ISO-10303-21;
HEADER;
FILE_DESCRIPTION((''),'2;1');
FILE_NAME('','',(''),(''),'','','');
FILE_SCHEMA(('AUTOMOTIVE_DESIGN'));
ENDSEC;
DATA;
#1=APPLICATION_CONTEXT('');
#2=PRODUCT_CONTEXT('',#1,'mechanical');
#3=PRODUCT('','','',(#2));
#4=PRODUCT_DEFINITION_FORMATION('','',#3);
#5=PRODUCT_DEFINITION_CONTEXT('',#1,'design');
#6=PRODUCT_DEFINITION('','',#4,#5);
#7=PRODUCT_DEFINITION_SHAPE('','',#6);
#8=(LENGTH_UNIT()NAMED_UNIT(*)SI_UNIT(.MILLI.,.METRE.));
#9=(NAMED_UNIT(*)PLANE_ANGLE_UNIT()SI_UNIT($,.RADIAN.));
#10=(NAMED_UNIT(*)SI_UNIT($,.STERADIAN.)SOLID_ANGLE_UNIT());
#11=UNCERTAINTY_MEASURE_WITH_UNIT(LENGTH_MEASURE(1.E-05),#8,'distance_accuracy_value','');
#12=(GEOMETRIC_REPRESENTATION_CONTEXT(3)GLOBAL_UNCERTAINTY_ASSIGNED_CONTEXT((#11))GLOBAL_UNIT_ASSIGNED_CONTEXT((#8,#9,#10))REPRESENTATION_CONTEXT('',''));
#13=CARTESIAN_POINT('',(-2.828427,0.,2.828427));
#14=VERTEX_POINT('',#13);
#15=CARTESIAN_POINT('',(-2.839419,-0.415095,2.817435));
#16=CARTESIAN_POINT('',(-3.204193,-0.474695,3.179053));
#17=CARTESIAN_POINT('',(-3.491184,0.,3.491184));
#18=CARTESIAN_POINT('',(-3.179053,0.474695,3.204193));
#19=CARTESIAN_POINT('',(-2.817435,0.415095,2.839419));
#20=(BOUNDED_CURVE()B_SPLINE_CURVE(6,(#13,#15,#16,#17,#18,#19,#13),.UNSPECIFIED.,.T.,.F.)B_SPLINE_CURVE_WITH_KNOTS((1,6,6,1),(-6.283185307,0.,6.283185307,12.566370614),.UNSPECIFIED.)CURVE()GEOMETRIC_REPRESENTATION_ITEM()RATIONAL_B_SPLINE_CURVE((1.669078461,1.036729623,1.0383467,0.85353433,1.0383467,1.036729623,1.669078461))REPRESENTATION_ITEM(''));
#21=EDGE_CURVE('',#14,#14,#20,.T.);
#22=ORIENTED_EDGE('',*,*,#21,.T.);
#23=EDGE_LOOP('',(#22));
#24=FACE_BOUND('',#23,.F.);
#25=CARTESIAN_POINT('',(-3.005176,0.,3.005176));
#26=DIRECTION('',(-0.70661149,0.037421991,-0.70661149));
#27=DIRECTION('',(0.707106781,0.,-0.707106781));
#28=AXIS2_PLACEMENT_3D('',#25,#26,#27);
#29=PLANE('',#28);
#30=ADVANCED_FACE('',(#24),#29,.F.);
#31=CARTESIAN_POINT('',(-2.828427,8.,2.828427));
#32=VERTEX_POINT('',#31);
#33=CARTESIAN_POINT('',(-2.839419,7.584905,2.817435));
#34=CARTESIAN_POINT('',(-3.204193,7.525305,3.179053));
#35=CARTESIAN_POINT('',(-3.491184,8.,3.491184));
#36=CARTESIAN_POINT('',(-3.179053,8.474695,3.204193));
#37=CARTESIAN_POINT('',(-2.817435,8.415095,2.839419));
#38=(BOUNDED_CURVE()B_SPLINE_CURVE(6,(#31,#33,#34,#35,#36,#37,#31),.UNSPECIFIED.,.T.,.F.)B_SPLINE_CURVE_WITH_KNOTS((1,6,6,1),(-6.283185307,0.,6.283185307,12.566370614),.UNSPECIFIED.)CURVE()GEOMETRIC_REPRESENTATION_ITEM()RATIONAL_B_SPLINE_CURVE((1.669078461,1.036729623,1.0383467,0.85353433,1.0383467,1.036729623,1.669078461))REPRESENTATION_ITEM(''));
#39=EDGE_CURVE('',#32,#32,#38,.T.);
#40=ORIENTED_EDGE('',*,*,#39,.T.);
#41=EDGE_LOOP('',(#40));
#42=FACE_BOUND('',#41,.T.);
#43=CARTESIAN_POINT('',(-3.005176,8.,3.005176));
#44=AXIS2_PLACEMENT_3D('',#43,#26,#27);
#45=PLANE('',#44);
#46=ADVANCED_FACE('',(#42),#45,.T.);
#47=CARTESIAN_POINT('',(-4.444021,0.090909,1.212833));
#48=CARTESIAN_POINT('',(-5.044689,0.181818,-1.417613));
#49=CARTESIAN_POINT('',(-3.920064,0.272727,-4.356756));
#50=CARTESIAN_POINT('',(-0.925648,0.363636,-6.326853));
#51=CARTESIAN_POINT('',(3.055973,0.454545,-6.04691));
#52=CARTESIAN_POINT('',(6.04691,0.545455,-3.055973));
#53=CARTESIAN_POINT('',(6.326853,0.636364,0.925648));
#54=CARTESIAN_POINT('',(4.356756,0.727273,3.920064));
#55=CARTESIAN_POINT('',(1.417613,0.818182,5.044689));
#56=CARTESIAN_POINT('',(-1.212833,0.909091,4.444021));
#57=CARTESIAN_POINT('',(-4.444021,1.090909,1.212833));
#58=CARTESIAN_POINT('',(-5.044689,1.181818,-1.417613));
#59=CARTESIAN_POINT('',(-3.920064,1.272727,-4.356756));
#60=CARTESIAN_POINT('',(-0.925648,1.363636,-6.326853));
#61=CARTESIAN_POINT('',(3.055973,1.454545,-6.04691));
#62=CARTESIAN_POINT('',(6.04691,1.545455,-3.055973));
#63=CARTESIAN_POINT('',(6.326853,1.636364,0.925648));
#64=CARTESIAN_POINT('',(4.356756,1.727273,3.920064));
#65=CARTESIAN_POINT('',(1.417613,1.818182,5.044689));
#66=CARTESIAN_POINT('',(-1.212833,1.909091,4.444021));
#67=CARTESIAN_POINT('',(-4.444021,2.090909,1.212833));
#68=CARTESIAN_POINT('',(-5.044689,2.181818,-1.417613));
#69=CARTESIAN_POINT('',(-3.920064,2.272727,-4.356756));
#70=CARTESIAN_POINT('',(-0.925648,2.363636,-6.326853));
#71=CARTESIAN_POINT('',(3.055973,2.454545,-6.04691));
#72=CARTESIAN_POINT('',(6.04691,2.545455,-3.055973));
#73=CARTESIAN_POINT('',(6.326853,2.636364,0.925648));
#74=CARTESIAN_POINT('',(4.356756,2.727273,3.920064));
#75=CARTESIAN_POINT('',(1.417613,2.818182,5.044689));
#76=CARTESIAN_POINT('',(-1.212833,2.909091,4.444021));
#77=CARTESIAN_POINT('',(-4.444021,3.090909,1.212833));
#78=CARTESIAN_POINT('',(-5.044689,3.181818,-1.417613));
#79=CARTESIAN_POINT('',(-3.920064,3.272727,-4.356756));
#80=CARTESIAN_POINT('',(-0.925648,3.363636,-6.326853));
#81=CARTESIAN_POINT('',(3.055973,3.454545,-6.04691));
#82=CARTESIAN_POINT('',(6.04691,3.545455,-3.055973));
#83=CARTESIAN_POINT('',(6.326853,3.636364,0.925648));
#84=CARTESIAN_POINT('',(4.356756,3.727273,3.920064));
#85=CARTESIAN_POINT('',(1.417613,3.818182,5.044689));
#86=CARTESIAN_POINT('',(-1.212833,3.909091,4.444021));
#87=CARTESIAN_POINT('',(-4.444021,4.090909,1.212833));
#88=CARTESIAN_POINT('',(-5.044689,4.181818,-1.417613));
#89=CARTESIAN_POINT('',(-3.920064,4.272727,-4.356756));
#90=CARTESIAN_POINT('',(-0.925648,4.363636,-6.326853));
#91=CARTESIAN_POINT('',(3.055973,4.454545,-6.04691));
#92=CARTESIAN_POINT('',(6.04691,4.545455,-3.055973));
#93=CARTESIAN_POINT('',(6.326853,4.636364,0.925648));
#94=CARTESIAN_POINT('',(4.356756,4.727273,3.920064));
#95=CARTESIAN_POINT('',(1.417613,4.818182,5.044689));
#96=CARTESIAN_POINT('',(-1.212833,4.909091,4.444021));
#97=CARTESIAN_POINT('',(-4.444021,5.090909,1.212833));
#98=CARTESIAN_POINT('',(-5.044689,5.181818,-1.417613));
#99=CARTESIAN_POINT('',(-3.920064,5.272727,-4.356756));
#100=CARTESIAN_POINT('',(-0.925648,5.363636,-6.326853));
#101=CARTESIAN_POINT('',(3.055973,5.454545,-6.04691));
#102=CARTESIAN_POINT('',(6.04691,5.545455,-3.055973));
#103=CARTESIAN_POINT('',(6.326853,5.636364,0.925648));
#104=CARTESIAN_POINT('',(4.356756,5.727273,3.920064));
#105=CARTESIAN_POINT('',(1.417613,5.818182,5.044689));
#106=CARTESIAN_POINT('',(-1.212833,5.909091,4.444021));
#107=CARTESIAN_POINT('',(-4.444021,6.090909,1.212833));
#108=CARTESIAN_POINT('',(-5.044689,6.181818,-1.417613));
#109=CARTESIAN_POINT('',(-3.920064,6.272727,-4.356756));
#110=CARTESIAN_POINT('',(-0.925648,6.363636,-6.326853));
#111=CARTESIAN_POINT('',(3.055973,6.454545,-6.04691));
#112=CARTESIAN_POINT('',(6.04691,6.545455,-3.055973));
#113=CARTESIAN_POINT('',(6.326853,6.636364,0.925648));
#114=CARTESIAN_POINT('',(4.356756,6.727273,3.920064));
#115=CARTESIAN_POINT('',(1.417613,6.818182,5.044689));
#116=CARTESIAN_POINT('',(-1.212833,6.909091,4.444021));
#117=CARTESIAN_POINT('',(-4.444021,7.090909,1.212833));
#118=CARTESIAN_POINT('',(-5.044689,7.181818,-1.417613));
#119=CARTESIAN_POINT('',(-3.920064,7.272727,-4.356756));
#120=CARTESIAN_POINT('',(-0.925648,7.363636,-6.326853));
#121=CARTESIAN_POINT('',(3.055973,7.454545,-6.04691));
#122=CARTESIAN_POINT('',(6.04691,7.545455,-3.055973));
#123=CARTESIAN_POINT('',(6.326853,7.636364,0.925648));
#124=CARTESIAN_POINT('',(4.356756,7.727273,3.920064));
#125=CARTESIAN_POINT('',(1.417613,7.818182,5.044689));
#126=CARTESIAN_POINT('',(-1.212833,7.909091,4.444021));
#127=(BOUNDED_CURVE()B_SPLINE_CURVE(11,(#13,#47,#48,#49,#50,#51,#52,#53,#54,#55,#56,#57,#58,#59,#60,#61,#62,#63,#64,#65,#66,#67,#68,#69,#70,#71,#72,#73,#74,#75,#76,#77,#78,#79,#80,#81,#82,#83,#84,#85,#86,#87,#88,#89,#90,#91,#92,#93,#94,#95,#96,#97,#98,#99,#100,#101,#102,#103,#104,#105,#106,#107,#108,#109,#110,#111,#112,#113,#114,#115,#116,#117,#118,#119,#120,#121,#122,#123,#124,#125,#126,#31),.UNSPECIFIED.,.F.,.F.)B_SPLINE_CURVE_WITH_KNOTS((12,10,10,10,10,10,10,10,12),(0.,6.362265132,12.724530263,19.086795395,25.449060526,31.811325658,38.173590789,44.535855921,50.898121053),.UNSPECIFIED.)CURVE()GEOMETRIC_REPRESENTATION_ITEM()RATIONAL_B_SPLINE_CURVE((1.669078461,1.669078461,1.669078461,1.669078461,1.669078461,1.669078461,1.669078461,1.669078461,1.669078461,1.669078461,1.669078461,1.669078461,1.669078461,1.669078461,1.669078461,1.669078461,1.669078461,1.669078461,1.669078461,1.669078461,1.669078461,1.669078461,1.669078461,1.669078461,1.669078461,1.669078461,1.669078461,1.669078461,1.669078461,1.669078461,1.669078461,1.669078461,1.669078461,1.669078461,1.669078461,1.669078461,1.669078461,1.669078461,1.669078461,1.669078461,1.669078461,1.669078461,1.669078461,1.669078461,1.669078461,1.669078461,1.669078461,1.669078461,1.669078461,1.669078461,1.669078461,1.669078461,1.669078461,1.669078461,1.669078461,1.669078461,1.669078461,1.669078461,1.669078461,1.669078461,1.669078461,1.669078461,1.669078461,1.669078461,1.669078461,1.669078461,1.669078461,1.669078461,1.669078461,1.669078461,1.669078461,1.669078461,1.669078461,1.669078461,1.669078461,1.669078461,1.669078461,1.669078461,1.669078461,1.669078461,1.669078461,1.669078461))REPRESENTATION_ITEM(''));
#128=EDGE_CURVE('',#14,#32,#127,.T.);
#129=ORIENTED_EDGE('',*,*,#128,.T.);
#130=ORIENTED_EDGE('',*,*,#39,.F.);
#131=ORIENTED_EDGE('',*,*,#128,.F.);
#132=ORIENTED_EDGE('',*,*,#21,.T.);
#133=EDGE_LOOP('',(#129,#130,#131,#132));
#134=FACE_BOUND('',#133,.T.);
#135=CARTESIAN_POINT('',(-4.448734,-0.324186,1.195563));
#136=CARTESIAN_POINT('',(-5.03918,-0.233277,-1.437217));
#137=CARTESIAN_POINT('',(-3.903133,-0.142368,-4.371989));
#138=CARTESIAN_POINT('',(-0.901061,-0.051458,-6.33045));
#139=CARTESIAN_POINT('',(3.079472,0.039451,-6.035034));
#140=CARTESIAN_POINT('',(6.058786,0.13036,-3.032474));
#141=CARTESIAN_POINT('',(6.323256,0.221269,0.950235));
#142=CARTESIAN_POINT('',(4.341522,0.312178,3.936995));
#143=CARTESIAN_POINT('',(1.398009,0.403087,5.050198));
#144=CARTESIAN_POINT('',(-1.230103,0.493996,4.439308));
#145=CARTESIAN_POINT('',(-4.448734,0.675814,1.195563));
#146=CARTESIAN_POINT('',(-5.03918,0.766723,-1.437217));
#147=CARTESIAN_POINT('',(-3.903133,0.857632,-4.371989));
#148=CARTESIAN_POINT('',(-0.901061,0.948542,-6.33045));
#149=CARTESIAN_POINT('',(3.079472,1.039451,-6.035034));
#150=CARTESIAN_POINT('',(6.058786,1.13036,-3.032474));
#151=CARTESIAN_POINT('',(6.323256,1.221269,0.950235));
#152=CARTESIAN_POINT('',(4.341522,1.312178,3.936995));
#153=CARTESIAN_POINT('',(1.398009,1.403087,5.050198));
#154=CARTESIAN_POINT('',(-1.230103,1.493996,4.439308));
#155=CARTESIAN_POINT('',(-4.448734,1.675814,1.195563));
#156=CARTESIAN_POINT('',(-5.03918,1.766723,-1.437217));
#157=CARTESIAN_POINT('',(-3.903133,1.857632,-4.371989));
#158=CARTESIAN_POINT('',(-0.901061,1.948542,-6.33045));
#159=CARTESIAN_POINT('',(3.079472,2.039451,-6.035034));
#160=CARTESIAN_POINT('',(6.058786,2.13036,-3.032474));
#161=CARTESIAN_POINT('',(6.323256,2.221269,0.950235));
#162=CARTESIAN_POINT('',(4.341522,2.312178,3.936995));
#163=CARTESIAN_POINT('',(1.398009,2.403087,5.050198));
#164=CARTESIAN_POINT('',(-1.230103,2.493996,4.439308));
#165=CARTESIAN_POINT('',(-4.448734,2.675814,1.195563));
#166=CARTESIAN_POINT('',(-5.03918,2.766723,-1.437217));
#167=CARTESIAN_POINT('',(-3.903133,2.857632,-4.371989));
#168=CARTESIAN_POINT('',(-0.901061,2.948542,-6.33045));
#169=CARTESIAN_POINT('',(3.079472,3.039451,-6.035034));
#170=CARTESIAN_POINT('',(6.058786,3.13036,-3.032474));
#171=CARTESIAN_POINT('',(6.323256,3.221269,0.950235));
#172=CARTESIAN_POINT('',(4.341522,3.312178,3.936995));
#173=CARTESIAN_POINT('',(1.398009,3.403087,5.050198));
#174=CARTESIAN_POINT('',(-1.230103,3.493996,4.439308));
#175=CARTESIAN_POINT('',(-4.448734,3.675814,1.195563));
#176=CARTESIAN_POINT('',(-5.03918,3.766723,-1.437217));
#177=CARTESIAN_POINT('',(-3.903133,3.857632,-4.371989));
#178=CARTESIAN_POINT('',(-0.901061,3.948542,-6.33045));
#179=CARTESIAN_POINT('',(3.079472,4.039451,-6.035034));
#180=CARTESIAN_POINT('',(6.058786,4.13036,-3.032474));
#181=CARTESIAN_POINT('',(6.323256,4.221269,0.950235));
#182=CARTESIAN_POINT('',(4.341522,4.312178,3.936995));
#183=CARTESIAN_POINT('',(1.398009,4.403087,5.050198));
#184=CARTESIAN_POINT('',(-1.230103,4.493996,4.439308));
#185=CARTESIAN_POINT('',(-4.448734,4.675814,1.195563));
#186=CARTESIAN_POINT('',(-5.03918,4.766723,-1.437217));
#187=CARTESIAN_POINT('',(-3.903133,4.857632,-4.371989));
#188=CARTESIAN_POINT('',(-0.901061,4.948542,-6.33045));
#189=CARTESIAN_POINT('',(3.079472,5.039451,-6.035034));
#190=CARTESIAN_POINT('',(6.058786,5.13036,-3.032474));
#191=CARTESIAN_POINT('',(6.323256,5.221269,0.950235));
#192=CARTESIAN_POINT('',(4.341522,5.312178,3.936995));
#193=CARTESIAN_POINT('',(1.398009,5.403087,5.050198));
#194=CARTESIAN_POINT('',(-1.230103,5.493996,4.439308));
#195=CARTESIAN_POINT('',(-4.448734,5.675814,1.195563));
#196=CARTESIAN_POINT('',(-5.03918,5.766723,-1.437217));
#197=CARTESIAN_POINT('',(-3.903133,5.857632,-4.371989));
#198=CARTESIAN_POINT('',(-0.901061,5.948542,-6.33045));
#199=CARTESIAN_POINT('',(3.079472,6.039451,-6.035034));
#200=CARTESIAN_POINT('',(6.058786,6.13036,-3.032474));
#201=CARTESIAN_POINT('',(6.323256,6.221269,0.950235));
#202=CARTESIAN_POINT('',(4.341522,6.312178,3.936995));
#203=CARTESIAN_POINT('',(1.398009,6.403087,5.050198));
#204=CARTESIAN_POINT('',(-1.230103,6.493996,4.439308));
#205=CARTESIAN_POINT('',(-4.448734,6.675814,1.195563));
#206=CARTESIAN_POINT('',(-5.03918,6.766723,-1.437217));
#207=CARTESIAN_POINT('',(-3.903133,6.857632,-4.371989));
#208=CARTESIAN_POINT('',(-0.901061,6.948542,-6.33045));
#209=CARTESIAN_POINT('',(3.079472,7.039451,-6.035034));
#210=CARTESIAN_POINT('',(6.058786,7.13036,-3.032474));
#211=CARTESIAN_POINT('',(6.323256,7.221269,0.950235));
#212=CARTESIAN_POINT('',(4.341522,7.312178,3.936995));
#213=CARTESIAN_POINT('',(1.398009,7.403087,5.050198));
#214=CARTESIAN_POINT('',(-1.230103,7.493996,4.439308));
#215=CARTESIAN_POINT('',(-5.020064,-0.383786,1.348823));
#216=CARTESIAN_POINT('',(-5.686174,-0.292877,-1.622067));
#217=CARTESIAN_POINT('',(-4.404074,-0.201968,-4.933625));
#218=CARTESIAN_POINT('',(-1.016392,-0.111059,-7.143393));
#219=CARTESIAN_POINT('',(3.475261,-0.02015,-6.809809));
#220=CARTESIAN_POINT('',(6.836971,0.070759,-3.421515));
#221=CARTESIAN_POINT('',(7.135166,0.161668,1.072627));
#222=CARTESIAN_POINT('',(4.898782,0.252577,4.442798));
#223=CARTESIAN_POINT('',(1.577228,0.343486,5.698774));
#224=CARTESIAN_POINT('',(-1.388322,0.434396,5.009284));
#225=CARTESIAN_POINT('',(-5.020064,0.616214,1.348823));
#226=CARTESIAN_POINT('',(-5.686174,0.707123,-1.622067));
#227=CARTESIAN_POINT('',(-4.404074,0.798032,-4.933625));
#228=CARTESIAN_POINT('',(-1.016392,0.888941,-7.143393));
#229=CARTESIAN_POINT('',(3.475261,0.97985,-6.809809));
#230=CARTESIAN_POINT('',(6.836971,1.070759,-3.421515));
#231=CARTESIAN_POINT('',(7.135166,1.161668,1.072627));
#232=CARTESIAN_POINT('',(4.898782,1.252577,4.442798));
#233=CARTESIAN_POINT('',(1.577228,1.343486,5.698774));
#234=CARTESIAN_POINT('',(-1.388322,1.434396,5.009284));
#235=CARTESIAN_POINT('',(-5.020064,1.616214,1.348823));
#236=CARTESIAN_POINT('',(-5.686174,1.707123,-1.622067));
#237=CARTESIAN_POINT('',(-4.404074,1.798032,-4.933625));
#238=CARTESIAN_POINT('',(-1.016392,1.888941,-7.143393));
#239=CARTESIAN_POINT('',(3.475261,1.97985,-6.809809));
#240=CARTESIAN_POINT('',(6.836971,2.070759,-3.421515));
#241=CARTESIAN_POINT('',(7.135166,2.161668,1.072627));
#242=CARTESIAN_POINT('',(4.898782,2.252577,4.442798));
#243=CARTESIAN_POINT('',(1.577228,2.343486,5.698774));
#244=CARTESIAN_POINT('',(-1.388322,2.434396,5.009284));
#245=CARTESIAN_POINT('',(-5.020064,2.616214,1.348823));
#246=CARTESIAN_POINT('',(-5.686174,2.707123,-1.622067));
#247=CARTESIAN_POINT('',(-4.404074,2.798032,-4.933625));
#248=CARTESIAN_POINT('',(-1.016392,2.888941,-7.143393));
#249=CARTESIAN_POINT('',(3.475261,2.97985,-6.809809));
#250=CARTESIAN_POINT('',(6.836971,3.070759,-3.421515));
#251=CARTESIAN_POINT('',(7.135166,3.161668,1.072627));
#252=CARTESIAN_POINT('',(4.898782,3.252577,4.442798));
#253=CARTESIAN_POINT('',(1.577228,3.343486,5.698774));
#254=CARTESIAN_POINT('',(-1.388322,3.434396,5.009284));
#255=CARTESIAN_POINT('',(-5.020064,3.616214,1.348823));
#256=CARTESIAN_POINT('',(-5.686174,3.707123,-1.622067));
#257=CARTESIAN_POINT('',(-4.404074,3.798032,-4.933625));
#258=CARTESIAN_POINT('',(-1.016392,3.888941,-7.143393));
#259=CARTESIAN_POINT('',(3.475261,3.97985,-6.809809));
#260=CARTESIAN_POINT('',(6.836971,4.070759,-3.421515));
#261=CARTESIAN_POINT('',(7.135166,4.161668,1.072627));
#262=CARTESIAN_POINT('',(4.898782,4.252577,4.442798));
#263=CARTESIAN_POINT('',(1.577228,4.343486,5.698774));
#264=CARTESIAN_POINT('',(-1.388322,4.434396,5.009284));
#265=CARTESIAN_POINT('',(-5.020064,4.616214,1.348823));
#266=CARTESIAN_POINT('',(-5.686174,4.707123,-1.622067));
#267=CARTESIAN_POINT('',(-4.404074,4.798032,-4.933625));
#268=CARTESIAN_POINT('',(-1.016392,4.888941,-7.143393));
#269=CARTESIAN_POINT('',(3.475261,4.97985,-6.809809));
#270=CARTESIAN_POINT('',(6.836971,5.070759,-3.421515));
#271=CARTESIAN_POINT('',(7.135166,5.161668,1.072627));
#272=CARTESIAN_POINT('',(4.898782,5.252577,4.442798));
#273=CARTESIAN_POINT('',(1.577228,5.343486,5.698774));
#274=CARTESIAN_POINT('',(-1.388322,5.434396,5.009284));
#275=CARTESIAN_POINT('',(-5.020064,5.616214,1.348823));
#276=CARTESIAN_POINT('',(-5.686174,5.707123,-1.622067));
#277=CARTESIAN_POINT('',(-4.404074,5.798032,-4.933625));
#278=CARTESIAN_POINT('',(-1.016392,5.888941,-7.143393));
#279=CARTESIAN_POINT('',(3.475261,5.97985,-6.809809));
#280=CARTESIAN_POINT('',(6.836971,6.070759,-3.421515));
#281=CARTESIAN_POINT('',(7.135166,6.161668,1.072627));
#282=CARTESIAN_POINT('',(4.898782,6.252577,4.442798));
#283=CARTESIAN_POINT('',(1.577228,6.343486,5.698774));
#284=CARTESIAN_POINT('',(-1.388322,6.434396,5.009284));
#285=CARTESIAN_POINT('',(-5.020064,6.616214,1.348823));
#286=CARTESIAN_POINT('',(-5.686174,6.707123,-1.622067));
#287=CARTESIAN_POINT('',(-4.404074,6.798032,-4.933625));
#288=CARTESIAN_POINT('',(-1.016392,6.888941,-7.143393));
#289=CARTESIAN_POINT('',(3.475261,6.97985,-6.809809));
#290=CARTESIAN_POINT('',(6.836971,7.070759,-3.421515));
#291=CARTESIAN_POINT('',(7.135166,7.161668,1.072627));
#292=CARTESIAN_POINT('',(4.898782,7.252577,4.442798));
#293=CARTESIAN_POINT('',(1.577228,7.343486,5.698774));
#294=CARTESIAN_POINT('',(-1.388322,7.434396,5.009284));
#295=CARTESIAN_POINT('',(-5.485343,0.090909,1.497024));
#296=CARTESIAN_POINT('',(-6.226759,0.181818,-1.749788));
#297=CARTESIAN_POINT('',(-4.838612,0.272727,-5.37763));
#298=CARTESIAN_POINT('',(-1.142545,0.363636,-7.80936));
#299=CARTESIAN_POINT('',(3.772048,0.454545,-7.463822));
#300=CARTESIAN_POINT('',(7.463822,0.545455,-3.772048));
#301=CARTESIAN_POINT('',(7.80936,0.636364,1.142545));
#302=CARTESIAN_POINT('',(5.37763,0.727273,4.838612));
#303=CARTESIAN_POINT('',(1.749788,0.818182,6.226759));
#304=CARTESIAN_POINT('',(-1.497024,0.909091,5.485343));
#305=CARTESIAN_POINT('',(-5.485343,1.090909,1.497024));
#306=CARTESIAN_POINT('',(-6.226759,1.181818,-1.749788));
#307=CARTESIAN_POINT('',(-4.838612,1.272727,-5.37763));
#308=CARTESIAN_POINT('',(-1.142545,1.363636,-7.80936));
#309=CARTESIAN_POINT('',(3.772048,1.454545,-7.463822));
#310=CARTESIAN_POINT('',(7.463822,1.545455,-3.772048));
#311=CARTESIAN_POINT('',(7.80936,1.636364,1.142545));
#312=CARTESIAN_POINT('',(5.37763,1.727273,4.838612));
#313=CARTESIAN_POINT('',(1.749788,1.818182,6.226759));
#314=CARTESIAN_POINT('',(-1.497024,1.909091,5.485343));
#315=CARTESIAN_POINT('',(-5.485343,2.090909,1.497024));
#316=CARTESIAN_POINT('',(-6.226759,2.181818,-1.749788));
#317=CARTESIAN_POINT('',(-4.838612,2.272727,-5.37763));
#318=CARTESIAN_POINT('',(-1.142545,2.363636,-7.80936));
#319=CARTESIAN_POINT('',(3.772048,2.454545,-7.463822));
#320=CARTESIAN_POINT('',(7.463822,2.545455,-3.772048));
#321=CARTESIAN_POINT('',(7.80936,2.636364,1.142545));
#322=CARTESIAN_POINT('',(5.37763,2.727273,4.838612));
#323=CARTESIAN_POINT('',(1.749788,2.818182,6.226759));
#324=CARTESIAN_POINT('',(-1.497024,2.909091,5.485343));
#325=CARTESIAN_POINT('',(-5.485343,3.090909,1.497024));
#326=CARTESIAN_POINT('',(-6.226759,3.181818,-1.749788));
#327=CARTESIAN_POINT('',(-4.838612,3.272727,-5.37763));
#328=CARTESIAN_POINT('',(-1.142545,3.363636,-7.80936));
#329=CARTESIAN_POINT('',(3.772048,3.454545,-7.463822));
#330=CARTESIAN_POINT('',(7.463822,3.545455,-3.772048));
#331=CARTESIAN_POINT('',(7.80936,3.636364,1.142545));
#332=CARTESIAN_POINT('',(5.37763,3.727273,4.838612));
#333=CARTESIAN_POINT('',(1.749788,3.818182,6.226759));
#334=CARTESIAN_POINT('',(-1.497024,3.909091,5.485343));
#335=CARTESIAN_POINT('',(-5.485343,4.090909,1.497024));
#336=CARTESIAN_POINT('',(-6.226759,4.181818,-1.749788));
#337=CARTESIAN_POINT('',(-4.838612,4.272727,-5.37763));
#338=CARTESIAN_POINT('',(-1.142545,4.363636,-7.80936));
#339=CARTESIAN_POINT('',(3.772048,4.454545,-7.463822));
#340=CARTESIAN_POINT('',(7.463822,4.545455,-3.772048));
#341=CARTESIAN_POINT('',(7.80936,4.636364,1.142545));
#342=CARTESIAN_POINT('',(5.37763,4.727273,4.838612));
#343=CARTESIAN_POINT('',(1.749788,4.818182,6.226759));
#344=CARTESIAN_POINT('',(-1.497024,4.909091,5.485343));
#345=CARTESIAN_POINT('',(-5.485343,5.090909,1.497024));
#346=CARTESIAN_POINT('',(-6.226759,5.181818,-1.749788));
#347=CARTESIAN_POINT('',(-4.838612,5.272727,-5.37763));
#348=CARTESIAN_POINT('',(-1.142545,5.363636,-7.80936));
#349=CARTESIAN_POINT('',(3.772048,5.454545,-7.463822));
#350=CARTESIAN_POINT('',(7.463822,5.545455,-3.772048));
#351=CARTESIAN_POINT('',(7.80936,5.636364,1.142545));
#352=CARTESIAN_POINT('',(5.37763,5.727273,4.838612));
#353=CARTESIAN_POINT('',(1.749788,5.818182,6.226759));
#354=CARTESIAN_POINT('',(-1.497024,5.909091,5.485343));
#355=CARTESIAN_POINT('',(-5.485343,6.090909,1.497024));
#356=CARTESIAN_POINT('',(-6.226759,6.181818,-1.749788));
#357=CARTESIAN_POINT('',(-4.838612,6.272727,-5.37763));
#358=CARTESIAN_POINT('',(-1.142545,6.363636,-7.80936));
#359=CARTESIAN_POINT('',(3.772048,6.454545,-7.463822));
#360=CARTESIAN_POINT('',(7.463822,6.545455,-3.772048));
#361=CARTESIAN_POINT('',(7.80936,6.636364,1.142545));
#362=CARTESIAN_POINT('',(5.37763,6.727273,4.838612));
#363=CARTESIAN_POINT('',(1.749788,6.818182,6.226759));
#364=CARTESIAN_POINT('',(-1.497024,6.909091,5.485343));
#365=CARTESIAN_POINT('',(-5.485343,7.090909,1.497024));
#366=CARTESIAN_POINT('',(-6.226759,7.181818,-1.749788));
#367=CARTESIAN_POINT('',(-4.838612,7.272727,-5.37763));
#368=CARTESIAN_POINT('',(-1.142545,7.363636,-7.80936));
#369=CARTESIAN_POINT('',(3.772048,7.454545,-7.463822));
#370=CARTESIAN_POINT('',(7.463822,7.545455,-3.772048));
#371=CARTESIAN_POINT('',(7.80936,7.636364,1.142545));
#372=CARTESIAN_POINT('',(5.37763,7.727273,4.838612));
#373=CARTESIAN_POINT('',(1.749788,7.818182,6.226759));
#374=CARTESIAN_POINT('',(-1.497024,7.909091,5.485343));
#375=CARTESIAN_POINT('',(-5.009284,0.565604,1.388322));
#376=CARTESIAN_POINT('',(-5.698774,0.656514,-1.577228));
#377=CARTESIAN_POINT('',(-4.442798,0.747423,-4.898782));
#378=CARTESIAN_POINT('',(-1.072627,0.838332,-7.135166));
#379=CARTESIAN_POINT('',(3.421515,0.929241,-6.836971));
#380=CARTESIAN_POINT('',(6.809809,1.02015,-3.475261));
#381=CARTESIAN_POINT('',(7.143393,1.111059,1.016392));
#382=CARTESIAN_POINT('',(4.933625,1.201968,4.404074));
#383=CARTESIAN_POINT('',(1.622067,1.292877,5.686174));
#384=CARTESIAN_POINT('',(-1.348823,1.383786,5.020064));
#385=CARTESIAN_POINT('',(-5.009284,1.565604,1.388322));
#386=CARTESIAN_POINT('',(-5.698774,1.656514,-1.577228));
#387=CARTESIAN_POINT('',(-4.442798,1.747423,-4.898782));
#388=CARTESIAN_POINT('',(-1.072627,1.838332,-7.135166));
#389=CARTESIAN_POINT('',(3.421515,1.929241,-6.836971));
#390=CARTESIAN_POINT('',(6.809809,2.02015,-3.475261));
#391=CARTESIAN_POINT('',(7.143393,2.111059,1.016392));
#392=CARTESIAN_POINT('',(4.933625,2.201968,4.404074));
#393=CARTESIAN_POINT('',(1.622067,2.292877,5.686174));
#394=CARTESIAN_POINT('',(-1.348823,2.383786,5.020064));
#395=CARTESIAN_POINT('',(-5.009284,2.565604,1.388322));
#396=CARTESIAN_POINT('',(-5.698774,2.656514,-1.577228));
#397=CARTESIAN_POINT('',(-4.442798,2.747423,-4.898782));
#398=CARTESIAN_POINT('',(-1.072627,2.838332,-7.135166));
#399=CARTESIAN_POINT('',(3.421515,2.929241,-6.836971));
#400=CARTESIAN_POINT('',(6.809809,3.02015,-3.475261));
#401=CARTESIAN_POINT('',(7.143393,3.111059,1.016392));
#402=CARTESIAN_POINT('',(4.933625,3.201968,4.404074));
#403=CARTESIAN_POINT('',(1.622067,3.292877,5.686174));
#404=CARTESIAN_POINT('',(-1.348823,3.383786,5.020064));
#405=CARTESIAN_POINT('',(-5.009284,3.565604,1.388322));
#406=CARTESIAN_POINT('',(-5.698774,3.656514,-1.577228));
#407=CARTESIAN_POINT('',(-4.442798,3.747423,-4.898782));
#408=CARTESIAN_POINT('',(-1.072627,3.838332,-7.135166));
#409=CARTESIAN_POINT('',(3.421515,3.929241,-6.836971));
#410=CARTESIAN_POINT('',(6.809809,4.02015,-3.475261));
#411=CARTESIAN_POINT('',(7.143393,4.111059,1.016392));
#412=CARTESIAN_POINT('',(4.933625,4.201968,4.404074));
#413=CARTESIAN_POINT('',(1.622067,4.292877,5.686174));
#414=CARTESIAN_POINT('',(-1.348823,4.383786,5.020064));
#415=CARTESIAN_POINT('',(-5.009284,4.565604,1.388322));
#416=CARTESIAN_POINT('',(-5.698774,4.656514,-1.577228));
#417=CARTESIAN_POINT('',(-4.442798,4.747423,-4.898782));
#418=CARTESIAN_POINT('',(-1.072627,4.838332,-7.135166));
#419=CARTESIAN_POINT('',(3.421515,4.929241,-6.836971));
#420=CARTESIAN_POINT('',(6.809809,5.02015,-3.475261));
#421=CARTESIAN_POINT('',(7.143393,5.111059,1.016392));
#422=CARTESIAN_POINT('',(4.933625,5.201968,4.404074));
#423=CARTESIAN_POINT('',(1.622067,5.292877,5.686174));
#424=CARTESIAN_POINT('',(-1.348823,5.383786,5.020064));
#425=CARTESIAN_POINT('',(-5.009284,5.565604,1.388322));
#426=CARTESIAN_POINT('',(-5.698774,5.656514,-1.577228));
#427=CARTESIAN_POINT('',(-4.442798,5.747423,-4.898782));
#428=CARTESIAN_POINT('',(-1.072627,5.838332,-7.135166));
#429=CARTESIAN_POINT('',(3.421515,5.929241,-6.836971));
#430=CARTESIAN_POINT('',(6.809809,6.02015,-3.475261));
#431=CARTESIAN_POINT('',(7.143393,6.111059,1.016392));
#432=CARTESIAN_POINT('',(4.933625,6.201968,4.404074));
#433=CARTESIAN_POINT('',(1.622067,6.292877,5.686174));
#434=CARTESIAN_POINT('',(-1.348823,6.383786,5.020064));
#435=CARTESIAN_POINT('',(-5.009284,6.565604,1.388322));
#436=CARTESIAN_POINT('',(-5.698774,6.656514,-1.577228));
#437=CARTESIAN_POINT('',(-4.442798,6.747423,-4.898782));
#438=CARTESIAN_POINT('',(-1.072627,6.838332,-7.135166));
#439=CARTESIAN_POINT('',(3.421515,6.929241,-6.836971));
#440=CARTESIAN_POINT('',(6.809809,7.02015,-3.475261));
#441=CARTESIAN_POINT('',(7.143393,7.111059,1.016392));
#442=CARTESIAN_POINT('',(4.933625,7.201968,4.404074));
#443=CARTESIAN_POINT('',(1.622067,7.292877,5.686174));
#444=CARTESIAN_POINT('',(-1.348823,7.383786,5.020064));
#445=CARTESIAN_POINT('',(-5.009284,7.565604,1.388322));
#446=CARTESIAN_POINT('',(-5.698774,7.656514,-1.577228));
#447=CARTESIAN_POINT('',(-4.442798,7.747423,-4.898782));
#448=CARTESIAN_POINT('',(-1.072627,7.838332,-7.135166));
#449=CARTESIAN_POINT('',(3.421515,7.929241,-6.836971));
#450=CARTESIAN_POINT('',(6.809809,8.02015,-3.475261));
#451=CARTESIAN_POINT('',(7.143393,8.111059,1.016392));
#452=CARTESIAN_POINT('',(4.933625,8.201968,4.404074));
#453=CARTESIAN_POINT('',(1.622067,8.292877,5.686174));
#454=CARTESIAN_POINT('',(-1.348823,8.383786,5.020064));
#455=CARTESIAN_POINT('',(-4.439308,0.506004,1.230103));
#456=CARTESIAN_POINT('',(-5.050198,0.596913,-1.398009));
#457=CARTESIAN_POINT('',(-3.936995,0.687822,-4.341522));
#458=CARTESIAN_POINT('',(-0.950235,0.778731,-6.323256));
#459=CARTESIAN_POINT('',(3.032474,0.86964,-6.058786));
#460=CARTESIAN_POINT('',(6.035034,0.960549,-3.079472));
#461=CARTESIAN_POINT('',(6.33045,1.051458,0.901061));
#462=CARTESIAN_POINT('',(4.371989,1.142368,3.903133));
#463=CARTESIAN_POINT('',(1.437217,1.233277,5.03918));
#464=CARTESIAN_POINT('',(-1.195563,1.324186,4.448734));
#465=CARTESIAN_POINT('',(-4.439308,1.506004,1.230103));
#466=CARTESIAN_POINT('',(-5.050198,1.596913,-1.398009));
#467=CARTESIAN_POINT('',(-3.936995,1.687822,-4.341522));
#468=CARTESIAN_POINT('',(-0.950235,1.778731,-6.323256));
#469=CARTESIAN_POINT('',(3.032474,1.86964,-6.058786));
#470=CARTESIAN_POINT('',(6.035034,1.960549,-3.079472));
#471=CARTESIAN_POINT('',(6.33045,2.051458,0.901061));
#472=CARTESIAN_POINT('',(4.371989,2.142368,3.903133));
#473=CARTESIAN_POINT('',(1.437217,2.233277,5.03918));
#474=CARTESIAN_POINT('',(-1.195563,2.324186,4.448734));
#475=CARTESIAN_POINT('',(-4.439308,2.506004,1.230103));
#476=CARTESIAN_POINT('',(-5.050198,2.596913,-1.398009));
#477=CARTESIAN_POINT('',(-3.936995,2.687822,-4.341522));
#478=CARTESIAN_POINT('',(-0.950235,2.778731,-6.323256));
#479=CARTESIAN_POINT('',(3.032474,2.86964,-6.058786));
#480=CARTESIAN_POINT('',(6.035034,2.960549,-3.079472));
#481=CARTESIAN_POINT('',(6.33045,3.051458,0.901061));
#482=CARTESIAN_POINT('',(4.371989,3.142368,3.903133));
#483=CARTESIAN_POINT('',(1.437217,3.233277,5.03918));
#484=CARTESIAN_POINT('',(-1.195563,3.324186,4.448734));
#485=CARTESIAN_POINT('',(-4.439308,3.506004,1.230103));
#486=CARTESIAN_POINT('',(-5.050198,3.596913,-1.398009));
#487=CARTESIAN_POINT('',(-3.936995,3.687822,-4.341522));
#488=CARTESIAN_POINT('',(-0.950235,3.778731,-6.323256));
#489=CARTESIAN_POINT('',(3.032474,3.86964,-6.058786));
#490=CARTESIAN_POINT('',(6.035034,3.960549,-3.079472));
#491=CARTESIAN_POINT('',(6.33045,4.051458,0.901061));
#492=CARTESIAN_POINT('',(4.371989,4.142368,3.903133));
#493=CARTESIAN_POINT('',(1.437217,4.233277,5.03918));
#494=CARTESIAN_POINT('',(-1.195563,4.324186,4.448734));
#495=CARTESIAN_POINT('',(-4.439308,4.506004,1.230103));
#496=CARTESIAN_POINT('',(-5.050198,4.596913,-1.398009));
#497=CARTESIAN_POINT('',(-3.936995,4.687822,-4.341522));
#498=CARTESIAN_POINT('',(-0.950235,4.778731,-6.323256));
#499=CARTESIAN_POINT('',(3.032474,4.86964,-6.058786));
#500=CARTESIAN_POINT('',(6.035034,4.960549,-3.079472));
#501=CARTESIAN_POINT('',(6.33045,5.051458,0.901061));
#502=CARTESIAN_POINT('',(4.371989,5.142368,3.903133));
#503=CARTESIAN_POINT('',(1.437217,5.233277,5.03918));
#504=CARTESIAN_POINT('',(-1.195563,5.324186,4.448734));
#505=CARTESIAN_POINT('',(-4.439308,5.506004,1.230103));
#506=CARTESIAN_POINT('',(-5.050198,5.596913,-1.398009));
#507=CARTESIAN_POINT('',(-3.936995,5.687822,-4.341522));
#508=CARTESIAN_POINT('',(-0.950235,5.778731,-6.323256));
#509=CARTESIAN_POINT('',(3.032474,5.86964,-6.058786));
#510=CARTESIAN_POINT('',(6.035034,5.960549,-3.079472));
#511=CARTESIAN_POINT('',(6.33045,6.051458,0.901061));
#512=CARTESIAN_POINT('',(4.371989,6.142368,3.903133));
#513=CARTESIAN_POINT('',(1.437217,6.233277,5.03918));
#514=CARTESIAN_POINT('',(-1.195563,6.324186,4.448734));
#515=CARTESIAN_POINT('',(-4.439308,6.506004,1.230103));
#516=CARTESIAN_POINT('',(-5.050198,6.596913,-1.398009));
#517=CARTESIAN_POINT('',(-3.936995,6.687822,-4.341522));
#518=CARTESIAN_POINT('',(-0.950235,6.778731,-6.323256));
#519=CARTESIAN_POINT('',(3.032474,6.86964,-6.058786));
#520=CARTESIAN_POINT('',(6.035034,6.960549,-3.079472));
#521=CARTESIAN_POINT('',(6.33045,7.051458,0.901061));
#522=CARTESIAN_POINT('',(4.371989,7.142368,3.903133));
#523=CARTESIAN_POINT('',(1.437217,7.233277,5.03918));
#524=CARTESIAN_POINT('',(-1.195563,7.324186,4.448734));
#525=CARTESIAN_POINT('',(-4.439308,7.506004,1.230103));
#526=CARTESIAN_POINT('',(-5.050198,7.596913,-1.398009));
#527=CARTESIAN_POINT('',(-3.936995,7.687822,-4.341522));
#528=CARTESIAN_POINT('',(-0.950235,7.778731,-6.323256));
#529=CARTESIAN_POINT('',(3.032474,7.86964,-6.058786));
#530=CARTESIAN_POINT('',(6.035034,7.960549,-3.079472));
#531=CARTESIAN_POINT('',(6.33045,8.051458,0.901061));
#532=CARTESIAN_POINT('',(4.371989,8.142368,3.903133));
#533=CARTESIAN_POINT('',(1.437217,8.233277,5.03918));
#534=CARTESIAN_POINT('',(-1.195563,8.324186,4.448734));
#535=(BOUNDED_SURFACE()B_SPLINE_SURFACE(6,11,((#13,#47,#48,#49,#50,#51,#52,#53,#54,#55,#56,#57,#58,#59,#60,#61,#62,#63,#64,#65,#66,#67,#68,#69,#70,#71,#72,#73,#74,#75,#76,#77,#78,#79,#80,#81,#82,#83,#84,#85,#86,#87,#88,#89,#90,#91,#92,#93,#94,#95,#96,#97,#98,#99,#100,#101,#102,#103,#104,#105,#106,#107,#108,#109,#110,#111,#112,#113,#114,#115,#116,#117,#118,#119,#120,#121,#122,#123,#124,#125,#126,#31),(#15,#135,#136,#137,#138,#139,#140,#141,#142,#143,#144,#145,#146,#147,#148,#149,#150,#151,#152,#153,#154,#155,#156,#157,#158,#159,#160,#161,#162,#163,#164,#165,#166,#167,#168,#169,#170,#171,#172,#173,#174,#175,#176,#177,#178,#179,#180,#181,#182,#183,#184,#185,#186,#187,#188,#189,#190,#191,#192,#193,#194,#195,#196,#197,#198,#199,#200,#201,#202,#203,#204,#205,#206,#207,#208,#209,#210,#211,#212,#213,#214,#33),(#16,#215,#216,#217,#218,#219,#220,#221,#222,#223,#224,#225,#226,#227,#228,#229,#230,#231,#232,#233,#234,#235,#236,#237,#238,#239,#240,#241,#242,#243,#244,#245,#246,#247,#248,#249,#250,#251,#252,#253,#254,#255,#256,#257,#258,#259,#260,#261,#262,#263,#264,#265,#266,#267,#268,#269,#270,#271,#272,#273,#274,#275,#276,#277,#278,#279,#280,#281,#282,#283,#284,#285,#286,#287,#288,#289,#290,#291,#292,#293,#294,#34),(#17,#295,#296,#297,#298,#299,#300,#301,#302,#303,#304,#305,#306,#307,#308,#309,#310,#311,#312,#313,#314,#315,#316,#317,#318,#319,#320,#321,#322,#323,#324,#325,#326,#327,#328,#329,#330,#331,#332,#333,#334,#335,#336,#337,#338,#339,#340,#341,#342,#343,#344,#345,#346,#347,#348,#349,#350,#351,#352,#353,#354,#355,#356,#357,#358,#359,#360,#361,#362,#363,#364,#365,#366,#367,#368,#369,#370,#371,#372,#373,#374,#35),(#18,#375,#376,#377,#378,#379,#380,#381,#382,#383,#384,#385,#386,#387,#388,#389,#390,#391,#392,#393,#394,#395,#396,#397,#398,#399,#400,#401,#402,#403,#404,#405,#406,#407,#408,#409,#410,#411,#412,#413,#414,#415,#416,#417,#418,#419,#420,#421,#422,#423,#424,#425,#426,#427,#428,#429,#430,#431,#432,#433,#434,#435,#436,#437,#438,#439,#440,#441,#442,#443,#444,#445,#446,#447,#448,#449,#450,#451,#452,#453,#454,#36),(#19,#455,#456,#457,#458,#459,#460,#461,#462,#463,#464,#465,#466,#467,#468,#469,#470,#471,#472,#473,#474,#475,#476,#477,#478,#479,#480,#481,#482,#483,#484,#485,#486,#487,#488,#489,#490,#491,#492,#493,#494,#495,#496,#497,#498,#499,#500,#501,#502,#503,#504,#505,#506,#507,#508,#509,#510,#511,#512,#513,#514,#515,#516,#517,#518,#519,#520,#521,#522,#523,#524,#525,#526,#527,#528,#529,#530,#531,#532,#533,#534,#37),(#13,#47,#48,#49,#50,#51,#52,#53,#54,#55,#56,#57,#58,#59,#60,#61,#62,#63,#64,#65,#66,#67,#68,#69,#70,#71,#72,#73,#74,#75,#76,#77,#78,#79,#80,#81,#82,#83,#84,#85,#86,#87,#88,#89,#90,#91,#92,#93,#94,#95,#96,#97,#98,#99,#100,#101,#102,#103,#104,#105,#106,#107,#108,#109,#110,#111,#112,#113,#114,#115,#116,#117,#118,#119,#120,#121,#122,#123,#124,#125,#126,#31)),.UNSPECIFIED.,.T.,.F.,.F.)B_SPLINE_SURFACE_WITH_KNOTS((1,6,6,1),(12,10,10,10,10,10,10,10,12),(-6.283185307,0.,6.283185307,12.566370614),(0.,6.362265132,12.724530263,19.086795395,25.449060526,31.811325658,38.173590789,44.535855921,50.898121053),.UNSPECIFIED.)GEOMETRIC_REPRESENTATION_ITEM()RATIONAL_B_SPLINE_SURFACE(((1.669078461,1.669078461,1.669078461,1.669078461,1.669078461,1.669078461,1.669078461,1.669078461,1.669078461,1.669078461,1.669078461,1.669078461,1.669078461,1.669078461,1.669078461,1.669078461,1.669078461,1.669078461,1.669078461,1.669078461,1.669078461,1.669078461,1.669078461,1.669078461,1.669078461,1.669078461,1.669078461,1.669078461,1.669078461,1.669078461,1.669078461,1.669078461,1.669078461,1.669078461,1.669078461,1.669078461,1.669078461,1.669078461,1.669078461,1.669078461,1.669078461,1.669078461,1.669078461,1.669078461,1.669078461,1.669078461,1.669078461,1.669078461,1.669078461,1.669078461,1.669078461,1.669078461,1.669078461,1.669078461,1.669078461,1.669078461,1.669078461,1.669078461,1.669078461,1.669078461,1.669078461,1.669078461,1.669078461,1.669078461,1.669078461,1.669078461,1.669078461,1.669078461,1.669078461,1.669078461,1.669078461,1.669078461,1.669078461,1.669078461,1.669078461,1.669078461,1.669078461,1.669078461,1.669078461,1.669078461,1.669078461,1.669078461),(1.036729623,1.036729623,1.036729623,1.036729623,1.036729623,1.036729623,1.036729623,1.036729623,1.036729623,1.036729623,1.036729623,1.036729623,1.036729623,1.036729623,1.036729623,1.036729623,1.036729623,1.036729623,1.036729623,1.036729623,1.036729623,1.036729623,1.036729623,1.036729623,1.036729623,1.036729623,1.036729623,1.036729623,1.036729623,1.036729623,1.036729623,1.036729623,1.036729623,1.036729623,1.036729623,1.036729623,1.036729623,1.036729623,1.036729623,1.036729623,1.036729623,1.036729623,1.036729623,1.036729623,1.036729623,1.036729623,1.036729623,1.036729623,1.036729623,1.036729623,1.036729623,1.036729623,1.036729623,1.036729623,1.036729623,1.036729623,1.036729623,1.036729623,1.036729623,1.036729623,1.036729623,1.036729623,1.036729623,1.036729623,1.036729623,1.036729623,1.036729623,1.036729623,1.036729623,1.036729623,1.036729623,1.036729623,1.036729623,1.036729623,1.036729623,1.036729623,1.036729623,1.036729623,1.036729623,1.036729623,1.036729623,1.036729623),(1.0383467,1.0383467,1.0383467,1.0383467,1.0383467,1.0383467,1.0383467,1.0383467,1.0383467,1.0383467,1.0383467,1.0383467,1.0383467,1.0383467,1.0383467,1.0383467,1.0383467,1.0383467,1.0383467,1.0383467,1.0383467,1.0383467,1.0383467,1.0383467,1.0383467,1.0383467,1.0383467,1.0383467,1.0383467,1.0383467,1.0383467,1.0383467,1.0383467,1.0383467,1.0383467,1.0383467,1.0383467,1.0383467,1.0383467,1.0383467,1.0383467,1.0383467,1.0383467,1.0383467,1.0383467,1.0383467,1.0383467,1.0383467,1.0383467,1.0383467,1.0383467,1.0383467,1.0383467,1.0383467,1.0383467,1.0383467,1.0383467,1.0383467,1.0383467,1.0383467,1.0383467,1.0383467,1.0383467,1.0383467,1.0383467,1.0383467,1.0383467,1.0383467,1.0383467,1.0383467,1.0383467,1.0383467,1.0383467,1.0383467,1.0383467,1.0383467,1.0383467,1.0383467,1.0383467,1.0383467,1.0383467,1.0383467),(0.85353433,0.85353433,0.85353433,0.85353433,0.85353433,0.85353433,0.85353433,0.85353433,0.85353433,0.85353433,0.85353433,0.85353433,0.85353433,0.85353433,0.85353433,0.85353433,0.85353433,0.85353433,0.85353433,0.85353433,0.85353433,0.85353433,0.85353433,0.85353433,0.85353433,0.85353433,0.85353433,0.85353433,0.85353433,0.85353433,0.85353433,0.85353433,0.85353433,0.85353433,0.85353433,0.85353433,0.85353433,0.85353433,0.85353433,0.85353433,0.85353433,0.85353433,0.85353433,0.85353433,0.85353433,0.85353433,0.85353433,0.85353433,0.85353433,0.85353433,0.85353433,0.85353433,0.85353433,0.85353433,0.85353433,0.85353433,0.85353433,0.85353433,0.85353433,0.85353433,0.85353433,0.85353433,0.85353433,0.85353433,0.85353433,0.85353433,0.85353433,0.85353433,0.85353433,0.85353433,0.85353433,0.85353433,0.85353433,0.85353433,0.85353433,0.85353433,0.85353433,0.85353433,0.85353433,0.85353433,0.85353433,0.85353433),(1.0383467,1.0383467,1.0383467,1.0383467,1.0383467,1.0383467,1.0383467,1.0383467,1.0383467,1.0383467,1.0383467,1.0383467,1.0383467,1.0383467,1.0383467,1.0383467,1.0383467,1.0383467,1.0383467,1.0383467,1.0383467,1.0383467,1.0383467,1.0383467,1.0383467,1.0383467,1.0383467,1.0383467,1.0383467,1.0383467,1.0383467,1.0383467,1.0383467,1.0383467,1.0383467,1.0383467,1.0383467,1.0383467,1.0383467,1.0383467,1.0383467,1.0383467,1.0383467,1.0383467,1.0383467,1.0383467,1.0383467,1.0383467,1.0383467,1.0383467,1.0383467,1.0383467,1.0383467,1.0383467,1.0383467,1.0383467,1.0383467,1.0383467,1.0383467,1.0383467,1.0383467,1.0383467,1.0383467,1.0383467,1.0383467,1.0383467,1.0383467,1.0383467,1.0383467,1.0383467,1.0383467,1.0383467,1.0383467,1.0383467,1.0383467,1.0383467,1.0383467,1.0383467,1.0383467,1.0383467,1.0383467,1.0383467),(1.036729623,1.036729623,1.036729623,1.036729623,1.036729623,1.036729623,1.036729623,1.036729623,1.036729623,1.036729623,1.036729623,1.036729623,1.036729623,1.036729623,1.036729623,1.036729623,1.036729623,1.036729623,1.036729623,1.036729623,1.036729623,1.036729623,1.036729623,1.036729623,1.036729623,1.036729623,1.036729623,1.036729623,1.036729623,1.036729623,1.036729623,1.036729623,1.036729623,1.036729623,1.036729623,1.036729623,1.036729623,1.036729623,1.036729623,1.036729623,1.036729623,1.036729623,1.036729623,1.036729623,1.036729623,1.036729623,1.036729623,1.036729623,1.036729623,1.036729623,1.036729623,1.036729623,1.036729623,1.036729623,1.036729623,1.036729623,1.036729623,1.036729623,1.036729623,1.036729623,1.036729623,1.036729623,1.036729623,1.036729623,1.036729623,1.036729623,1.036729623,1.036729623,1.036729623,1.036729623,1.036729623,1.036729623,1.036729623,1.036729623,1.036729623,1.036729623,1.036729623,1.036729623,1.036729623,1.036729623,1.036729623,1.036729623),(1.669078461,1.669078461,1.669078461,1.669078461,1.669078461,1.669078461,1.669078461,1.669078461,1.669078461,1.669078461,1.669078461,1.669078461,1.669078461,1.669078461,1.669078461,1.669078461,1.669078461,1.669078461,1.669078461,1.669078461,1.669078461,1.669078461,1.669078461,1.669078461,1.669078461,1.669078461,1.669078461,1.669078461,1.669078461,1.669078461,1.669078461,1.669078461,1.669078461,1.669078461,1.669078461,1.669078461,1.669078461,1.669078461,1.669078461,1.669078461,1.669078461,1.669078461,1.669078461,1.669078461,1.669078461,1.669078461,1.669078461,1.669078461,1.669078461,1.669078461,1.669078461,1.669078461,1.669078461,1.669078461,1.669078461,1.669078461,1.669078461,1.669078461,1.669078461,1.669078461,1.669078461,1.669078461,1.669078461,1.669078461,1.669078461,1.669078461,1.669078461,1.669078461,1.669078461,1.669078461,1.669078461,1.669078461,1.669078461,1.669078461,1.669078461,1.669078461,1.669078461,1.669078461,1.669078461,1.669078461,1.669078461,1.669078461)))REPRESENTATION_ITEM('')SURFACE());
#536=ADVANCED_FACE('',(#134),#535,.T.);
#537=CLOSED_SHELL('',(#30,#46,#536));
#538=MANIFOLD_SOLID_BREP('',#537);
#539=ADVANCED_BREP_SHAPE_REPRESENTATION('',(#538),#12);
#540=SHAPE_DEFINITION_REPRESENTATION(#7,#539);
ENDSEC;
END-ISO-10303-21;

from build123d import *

# Parameters (mm, degrees)
SWEEP1_PITCH       = 1
SWEEP1_HEIGHT      = 8
SWEEP1_RADIUS      = 4.25
SWEEP1_START_ANGLE = -45
SWEEP1_PROFILE_R   = 0.25


with BuildPart() as part:
    # Sweep1: sweep along a helix
    with BuildLine() as sweep1_path:
        add(Helix(SWEEP1_PITCH, SWEEP1_HEIGHT, SWEEP1_RADIUS, center=(0, 0, 0), direction=(0, 1, 0), lefthand=True, mode=Mode.PRIVATE).rotate(Axis((0, 0, 0), (0, 1, 0)), SWEEP1_START_ANGLE))
    # Sweep1 profile (on start of the path) → Sweep1 (sweep)
    with BuildSketch(Plane(origin=(-3.00520382, 0, 3.00520382), x_dir=(0.7071067811862208, 0, -0.7071067811868742), z_dir=(-0.7066114896330161, 0.037421991370619065, -0.7066114896323632))):
        Circle(SWEEP1_PROFILE_R)
    sweep(path=sweep1_path.line, is_frenet=True)


solid = part.part
